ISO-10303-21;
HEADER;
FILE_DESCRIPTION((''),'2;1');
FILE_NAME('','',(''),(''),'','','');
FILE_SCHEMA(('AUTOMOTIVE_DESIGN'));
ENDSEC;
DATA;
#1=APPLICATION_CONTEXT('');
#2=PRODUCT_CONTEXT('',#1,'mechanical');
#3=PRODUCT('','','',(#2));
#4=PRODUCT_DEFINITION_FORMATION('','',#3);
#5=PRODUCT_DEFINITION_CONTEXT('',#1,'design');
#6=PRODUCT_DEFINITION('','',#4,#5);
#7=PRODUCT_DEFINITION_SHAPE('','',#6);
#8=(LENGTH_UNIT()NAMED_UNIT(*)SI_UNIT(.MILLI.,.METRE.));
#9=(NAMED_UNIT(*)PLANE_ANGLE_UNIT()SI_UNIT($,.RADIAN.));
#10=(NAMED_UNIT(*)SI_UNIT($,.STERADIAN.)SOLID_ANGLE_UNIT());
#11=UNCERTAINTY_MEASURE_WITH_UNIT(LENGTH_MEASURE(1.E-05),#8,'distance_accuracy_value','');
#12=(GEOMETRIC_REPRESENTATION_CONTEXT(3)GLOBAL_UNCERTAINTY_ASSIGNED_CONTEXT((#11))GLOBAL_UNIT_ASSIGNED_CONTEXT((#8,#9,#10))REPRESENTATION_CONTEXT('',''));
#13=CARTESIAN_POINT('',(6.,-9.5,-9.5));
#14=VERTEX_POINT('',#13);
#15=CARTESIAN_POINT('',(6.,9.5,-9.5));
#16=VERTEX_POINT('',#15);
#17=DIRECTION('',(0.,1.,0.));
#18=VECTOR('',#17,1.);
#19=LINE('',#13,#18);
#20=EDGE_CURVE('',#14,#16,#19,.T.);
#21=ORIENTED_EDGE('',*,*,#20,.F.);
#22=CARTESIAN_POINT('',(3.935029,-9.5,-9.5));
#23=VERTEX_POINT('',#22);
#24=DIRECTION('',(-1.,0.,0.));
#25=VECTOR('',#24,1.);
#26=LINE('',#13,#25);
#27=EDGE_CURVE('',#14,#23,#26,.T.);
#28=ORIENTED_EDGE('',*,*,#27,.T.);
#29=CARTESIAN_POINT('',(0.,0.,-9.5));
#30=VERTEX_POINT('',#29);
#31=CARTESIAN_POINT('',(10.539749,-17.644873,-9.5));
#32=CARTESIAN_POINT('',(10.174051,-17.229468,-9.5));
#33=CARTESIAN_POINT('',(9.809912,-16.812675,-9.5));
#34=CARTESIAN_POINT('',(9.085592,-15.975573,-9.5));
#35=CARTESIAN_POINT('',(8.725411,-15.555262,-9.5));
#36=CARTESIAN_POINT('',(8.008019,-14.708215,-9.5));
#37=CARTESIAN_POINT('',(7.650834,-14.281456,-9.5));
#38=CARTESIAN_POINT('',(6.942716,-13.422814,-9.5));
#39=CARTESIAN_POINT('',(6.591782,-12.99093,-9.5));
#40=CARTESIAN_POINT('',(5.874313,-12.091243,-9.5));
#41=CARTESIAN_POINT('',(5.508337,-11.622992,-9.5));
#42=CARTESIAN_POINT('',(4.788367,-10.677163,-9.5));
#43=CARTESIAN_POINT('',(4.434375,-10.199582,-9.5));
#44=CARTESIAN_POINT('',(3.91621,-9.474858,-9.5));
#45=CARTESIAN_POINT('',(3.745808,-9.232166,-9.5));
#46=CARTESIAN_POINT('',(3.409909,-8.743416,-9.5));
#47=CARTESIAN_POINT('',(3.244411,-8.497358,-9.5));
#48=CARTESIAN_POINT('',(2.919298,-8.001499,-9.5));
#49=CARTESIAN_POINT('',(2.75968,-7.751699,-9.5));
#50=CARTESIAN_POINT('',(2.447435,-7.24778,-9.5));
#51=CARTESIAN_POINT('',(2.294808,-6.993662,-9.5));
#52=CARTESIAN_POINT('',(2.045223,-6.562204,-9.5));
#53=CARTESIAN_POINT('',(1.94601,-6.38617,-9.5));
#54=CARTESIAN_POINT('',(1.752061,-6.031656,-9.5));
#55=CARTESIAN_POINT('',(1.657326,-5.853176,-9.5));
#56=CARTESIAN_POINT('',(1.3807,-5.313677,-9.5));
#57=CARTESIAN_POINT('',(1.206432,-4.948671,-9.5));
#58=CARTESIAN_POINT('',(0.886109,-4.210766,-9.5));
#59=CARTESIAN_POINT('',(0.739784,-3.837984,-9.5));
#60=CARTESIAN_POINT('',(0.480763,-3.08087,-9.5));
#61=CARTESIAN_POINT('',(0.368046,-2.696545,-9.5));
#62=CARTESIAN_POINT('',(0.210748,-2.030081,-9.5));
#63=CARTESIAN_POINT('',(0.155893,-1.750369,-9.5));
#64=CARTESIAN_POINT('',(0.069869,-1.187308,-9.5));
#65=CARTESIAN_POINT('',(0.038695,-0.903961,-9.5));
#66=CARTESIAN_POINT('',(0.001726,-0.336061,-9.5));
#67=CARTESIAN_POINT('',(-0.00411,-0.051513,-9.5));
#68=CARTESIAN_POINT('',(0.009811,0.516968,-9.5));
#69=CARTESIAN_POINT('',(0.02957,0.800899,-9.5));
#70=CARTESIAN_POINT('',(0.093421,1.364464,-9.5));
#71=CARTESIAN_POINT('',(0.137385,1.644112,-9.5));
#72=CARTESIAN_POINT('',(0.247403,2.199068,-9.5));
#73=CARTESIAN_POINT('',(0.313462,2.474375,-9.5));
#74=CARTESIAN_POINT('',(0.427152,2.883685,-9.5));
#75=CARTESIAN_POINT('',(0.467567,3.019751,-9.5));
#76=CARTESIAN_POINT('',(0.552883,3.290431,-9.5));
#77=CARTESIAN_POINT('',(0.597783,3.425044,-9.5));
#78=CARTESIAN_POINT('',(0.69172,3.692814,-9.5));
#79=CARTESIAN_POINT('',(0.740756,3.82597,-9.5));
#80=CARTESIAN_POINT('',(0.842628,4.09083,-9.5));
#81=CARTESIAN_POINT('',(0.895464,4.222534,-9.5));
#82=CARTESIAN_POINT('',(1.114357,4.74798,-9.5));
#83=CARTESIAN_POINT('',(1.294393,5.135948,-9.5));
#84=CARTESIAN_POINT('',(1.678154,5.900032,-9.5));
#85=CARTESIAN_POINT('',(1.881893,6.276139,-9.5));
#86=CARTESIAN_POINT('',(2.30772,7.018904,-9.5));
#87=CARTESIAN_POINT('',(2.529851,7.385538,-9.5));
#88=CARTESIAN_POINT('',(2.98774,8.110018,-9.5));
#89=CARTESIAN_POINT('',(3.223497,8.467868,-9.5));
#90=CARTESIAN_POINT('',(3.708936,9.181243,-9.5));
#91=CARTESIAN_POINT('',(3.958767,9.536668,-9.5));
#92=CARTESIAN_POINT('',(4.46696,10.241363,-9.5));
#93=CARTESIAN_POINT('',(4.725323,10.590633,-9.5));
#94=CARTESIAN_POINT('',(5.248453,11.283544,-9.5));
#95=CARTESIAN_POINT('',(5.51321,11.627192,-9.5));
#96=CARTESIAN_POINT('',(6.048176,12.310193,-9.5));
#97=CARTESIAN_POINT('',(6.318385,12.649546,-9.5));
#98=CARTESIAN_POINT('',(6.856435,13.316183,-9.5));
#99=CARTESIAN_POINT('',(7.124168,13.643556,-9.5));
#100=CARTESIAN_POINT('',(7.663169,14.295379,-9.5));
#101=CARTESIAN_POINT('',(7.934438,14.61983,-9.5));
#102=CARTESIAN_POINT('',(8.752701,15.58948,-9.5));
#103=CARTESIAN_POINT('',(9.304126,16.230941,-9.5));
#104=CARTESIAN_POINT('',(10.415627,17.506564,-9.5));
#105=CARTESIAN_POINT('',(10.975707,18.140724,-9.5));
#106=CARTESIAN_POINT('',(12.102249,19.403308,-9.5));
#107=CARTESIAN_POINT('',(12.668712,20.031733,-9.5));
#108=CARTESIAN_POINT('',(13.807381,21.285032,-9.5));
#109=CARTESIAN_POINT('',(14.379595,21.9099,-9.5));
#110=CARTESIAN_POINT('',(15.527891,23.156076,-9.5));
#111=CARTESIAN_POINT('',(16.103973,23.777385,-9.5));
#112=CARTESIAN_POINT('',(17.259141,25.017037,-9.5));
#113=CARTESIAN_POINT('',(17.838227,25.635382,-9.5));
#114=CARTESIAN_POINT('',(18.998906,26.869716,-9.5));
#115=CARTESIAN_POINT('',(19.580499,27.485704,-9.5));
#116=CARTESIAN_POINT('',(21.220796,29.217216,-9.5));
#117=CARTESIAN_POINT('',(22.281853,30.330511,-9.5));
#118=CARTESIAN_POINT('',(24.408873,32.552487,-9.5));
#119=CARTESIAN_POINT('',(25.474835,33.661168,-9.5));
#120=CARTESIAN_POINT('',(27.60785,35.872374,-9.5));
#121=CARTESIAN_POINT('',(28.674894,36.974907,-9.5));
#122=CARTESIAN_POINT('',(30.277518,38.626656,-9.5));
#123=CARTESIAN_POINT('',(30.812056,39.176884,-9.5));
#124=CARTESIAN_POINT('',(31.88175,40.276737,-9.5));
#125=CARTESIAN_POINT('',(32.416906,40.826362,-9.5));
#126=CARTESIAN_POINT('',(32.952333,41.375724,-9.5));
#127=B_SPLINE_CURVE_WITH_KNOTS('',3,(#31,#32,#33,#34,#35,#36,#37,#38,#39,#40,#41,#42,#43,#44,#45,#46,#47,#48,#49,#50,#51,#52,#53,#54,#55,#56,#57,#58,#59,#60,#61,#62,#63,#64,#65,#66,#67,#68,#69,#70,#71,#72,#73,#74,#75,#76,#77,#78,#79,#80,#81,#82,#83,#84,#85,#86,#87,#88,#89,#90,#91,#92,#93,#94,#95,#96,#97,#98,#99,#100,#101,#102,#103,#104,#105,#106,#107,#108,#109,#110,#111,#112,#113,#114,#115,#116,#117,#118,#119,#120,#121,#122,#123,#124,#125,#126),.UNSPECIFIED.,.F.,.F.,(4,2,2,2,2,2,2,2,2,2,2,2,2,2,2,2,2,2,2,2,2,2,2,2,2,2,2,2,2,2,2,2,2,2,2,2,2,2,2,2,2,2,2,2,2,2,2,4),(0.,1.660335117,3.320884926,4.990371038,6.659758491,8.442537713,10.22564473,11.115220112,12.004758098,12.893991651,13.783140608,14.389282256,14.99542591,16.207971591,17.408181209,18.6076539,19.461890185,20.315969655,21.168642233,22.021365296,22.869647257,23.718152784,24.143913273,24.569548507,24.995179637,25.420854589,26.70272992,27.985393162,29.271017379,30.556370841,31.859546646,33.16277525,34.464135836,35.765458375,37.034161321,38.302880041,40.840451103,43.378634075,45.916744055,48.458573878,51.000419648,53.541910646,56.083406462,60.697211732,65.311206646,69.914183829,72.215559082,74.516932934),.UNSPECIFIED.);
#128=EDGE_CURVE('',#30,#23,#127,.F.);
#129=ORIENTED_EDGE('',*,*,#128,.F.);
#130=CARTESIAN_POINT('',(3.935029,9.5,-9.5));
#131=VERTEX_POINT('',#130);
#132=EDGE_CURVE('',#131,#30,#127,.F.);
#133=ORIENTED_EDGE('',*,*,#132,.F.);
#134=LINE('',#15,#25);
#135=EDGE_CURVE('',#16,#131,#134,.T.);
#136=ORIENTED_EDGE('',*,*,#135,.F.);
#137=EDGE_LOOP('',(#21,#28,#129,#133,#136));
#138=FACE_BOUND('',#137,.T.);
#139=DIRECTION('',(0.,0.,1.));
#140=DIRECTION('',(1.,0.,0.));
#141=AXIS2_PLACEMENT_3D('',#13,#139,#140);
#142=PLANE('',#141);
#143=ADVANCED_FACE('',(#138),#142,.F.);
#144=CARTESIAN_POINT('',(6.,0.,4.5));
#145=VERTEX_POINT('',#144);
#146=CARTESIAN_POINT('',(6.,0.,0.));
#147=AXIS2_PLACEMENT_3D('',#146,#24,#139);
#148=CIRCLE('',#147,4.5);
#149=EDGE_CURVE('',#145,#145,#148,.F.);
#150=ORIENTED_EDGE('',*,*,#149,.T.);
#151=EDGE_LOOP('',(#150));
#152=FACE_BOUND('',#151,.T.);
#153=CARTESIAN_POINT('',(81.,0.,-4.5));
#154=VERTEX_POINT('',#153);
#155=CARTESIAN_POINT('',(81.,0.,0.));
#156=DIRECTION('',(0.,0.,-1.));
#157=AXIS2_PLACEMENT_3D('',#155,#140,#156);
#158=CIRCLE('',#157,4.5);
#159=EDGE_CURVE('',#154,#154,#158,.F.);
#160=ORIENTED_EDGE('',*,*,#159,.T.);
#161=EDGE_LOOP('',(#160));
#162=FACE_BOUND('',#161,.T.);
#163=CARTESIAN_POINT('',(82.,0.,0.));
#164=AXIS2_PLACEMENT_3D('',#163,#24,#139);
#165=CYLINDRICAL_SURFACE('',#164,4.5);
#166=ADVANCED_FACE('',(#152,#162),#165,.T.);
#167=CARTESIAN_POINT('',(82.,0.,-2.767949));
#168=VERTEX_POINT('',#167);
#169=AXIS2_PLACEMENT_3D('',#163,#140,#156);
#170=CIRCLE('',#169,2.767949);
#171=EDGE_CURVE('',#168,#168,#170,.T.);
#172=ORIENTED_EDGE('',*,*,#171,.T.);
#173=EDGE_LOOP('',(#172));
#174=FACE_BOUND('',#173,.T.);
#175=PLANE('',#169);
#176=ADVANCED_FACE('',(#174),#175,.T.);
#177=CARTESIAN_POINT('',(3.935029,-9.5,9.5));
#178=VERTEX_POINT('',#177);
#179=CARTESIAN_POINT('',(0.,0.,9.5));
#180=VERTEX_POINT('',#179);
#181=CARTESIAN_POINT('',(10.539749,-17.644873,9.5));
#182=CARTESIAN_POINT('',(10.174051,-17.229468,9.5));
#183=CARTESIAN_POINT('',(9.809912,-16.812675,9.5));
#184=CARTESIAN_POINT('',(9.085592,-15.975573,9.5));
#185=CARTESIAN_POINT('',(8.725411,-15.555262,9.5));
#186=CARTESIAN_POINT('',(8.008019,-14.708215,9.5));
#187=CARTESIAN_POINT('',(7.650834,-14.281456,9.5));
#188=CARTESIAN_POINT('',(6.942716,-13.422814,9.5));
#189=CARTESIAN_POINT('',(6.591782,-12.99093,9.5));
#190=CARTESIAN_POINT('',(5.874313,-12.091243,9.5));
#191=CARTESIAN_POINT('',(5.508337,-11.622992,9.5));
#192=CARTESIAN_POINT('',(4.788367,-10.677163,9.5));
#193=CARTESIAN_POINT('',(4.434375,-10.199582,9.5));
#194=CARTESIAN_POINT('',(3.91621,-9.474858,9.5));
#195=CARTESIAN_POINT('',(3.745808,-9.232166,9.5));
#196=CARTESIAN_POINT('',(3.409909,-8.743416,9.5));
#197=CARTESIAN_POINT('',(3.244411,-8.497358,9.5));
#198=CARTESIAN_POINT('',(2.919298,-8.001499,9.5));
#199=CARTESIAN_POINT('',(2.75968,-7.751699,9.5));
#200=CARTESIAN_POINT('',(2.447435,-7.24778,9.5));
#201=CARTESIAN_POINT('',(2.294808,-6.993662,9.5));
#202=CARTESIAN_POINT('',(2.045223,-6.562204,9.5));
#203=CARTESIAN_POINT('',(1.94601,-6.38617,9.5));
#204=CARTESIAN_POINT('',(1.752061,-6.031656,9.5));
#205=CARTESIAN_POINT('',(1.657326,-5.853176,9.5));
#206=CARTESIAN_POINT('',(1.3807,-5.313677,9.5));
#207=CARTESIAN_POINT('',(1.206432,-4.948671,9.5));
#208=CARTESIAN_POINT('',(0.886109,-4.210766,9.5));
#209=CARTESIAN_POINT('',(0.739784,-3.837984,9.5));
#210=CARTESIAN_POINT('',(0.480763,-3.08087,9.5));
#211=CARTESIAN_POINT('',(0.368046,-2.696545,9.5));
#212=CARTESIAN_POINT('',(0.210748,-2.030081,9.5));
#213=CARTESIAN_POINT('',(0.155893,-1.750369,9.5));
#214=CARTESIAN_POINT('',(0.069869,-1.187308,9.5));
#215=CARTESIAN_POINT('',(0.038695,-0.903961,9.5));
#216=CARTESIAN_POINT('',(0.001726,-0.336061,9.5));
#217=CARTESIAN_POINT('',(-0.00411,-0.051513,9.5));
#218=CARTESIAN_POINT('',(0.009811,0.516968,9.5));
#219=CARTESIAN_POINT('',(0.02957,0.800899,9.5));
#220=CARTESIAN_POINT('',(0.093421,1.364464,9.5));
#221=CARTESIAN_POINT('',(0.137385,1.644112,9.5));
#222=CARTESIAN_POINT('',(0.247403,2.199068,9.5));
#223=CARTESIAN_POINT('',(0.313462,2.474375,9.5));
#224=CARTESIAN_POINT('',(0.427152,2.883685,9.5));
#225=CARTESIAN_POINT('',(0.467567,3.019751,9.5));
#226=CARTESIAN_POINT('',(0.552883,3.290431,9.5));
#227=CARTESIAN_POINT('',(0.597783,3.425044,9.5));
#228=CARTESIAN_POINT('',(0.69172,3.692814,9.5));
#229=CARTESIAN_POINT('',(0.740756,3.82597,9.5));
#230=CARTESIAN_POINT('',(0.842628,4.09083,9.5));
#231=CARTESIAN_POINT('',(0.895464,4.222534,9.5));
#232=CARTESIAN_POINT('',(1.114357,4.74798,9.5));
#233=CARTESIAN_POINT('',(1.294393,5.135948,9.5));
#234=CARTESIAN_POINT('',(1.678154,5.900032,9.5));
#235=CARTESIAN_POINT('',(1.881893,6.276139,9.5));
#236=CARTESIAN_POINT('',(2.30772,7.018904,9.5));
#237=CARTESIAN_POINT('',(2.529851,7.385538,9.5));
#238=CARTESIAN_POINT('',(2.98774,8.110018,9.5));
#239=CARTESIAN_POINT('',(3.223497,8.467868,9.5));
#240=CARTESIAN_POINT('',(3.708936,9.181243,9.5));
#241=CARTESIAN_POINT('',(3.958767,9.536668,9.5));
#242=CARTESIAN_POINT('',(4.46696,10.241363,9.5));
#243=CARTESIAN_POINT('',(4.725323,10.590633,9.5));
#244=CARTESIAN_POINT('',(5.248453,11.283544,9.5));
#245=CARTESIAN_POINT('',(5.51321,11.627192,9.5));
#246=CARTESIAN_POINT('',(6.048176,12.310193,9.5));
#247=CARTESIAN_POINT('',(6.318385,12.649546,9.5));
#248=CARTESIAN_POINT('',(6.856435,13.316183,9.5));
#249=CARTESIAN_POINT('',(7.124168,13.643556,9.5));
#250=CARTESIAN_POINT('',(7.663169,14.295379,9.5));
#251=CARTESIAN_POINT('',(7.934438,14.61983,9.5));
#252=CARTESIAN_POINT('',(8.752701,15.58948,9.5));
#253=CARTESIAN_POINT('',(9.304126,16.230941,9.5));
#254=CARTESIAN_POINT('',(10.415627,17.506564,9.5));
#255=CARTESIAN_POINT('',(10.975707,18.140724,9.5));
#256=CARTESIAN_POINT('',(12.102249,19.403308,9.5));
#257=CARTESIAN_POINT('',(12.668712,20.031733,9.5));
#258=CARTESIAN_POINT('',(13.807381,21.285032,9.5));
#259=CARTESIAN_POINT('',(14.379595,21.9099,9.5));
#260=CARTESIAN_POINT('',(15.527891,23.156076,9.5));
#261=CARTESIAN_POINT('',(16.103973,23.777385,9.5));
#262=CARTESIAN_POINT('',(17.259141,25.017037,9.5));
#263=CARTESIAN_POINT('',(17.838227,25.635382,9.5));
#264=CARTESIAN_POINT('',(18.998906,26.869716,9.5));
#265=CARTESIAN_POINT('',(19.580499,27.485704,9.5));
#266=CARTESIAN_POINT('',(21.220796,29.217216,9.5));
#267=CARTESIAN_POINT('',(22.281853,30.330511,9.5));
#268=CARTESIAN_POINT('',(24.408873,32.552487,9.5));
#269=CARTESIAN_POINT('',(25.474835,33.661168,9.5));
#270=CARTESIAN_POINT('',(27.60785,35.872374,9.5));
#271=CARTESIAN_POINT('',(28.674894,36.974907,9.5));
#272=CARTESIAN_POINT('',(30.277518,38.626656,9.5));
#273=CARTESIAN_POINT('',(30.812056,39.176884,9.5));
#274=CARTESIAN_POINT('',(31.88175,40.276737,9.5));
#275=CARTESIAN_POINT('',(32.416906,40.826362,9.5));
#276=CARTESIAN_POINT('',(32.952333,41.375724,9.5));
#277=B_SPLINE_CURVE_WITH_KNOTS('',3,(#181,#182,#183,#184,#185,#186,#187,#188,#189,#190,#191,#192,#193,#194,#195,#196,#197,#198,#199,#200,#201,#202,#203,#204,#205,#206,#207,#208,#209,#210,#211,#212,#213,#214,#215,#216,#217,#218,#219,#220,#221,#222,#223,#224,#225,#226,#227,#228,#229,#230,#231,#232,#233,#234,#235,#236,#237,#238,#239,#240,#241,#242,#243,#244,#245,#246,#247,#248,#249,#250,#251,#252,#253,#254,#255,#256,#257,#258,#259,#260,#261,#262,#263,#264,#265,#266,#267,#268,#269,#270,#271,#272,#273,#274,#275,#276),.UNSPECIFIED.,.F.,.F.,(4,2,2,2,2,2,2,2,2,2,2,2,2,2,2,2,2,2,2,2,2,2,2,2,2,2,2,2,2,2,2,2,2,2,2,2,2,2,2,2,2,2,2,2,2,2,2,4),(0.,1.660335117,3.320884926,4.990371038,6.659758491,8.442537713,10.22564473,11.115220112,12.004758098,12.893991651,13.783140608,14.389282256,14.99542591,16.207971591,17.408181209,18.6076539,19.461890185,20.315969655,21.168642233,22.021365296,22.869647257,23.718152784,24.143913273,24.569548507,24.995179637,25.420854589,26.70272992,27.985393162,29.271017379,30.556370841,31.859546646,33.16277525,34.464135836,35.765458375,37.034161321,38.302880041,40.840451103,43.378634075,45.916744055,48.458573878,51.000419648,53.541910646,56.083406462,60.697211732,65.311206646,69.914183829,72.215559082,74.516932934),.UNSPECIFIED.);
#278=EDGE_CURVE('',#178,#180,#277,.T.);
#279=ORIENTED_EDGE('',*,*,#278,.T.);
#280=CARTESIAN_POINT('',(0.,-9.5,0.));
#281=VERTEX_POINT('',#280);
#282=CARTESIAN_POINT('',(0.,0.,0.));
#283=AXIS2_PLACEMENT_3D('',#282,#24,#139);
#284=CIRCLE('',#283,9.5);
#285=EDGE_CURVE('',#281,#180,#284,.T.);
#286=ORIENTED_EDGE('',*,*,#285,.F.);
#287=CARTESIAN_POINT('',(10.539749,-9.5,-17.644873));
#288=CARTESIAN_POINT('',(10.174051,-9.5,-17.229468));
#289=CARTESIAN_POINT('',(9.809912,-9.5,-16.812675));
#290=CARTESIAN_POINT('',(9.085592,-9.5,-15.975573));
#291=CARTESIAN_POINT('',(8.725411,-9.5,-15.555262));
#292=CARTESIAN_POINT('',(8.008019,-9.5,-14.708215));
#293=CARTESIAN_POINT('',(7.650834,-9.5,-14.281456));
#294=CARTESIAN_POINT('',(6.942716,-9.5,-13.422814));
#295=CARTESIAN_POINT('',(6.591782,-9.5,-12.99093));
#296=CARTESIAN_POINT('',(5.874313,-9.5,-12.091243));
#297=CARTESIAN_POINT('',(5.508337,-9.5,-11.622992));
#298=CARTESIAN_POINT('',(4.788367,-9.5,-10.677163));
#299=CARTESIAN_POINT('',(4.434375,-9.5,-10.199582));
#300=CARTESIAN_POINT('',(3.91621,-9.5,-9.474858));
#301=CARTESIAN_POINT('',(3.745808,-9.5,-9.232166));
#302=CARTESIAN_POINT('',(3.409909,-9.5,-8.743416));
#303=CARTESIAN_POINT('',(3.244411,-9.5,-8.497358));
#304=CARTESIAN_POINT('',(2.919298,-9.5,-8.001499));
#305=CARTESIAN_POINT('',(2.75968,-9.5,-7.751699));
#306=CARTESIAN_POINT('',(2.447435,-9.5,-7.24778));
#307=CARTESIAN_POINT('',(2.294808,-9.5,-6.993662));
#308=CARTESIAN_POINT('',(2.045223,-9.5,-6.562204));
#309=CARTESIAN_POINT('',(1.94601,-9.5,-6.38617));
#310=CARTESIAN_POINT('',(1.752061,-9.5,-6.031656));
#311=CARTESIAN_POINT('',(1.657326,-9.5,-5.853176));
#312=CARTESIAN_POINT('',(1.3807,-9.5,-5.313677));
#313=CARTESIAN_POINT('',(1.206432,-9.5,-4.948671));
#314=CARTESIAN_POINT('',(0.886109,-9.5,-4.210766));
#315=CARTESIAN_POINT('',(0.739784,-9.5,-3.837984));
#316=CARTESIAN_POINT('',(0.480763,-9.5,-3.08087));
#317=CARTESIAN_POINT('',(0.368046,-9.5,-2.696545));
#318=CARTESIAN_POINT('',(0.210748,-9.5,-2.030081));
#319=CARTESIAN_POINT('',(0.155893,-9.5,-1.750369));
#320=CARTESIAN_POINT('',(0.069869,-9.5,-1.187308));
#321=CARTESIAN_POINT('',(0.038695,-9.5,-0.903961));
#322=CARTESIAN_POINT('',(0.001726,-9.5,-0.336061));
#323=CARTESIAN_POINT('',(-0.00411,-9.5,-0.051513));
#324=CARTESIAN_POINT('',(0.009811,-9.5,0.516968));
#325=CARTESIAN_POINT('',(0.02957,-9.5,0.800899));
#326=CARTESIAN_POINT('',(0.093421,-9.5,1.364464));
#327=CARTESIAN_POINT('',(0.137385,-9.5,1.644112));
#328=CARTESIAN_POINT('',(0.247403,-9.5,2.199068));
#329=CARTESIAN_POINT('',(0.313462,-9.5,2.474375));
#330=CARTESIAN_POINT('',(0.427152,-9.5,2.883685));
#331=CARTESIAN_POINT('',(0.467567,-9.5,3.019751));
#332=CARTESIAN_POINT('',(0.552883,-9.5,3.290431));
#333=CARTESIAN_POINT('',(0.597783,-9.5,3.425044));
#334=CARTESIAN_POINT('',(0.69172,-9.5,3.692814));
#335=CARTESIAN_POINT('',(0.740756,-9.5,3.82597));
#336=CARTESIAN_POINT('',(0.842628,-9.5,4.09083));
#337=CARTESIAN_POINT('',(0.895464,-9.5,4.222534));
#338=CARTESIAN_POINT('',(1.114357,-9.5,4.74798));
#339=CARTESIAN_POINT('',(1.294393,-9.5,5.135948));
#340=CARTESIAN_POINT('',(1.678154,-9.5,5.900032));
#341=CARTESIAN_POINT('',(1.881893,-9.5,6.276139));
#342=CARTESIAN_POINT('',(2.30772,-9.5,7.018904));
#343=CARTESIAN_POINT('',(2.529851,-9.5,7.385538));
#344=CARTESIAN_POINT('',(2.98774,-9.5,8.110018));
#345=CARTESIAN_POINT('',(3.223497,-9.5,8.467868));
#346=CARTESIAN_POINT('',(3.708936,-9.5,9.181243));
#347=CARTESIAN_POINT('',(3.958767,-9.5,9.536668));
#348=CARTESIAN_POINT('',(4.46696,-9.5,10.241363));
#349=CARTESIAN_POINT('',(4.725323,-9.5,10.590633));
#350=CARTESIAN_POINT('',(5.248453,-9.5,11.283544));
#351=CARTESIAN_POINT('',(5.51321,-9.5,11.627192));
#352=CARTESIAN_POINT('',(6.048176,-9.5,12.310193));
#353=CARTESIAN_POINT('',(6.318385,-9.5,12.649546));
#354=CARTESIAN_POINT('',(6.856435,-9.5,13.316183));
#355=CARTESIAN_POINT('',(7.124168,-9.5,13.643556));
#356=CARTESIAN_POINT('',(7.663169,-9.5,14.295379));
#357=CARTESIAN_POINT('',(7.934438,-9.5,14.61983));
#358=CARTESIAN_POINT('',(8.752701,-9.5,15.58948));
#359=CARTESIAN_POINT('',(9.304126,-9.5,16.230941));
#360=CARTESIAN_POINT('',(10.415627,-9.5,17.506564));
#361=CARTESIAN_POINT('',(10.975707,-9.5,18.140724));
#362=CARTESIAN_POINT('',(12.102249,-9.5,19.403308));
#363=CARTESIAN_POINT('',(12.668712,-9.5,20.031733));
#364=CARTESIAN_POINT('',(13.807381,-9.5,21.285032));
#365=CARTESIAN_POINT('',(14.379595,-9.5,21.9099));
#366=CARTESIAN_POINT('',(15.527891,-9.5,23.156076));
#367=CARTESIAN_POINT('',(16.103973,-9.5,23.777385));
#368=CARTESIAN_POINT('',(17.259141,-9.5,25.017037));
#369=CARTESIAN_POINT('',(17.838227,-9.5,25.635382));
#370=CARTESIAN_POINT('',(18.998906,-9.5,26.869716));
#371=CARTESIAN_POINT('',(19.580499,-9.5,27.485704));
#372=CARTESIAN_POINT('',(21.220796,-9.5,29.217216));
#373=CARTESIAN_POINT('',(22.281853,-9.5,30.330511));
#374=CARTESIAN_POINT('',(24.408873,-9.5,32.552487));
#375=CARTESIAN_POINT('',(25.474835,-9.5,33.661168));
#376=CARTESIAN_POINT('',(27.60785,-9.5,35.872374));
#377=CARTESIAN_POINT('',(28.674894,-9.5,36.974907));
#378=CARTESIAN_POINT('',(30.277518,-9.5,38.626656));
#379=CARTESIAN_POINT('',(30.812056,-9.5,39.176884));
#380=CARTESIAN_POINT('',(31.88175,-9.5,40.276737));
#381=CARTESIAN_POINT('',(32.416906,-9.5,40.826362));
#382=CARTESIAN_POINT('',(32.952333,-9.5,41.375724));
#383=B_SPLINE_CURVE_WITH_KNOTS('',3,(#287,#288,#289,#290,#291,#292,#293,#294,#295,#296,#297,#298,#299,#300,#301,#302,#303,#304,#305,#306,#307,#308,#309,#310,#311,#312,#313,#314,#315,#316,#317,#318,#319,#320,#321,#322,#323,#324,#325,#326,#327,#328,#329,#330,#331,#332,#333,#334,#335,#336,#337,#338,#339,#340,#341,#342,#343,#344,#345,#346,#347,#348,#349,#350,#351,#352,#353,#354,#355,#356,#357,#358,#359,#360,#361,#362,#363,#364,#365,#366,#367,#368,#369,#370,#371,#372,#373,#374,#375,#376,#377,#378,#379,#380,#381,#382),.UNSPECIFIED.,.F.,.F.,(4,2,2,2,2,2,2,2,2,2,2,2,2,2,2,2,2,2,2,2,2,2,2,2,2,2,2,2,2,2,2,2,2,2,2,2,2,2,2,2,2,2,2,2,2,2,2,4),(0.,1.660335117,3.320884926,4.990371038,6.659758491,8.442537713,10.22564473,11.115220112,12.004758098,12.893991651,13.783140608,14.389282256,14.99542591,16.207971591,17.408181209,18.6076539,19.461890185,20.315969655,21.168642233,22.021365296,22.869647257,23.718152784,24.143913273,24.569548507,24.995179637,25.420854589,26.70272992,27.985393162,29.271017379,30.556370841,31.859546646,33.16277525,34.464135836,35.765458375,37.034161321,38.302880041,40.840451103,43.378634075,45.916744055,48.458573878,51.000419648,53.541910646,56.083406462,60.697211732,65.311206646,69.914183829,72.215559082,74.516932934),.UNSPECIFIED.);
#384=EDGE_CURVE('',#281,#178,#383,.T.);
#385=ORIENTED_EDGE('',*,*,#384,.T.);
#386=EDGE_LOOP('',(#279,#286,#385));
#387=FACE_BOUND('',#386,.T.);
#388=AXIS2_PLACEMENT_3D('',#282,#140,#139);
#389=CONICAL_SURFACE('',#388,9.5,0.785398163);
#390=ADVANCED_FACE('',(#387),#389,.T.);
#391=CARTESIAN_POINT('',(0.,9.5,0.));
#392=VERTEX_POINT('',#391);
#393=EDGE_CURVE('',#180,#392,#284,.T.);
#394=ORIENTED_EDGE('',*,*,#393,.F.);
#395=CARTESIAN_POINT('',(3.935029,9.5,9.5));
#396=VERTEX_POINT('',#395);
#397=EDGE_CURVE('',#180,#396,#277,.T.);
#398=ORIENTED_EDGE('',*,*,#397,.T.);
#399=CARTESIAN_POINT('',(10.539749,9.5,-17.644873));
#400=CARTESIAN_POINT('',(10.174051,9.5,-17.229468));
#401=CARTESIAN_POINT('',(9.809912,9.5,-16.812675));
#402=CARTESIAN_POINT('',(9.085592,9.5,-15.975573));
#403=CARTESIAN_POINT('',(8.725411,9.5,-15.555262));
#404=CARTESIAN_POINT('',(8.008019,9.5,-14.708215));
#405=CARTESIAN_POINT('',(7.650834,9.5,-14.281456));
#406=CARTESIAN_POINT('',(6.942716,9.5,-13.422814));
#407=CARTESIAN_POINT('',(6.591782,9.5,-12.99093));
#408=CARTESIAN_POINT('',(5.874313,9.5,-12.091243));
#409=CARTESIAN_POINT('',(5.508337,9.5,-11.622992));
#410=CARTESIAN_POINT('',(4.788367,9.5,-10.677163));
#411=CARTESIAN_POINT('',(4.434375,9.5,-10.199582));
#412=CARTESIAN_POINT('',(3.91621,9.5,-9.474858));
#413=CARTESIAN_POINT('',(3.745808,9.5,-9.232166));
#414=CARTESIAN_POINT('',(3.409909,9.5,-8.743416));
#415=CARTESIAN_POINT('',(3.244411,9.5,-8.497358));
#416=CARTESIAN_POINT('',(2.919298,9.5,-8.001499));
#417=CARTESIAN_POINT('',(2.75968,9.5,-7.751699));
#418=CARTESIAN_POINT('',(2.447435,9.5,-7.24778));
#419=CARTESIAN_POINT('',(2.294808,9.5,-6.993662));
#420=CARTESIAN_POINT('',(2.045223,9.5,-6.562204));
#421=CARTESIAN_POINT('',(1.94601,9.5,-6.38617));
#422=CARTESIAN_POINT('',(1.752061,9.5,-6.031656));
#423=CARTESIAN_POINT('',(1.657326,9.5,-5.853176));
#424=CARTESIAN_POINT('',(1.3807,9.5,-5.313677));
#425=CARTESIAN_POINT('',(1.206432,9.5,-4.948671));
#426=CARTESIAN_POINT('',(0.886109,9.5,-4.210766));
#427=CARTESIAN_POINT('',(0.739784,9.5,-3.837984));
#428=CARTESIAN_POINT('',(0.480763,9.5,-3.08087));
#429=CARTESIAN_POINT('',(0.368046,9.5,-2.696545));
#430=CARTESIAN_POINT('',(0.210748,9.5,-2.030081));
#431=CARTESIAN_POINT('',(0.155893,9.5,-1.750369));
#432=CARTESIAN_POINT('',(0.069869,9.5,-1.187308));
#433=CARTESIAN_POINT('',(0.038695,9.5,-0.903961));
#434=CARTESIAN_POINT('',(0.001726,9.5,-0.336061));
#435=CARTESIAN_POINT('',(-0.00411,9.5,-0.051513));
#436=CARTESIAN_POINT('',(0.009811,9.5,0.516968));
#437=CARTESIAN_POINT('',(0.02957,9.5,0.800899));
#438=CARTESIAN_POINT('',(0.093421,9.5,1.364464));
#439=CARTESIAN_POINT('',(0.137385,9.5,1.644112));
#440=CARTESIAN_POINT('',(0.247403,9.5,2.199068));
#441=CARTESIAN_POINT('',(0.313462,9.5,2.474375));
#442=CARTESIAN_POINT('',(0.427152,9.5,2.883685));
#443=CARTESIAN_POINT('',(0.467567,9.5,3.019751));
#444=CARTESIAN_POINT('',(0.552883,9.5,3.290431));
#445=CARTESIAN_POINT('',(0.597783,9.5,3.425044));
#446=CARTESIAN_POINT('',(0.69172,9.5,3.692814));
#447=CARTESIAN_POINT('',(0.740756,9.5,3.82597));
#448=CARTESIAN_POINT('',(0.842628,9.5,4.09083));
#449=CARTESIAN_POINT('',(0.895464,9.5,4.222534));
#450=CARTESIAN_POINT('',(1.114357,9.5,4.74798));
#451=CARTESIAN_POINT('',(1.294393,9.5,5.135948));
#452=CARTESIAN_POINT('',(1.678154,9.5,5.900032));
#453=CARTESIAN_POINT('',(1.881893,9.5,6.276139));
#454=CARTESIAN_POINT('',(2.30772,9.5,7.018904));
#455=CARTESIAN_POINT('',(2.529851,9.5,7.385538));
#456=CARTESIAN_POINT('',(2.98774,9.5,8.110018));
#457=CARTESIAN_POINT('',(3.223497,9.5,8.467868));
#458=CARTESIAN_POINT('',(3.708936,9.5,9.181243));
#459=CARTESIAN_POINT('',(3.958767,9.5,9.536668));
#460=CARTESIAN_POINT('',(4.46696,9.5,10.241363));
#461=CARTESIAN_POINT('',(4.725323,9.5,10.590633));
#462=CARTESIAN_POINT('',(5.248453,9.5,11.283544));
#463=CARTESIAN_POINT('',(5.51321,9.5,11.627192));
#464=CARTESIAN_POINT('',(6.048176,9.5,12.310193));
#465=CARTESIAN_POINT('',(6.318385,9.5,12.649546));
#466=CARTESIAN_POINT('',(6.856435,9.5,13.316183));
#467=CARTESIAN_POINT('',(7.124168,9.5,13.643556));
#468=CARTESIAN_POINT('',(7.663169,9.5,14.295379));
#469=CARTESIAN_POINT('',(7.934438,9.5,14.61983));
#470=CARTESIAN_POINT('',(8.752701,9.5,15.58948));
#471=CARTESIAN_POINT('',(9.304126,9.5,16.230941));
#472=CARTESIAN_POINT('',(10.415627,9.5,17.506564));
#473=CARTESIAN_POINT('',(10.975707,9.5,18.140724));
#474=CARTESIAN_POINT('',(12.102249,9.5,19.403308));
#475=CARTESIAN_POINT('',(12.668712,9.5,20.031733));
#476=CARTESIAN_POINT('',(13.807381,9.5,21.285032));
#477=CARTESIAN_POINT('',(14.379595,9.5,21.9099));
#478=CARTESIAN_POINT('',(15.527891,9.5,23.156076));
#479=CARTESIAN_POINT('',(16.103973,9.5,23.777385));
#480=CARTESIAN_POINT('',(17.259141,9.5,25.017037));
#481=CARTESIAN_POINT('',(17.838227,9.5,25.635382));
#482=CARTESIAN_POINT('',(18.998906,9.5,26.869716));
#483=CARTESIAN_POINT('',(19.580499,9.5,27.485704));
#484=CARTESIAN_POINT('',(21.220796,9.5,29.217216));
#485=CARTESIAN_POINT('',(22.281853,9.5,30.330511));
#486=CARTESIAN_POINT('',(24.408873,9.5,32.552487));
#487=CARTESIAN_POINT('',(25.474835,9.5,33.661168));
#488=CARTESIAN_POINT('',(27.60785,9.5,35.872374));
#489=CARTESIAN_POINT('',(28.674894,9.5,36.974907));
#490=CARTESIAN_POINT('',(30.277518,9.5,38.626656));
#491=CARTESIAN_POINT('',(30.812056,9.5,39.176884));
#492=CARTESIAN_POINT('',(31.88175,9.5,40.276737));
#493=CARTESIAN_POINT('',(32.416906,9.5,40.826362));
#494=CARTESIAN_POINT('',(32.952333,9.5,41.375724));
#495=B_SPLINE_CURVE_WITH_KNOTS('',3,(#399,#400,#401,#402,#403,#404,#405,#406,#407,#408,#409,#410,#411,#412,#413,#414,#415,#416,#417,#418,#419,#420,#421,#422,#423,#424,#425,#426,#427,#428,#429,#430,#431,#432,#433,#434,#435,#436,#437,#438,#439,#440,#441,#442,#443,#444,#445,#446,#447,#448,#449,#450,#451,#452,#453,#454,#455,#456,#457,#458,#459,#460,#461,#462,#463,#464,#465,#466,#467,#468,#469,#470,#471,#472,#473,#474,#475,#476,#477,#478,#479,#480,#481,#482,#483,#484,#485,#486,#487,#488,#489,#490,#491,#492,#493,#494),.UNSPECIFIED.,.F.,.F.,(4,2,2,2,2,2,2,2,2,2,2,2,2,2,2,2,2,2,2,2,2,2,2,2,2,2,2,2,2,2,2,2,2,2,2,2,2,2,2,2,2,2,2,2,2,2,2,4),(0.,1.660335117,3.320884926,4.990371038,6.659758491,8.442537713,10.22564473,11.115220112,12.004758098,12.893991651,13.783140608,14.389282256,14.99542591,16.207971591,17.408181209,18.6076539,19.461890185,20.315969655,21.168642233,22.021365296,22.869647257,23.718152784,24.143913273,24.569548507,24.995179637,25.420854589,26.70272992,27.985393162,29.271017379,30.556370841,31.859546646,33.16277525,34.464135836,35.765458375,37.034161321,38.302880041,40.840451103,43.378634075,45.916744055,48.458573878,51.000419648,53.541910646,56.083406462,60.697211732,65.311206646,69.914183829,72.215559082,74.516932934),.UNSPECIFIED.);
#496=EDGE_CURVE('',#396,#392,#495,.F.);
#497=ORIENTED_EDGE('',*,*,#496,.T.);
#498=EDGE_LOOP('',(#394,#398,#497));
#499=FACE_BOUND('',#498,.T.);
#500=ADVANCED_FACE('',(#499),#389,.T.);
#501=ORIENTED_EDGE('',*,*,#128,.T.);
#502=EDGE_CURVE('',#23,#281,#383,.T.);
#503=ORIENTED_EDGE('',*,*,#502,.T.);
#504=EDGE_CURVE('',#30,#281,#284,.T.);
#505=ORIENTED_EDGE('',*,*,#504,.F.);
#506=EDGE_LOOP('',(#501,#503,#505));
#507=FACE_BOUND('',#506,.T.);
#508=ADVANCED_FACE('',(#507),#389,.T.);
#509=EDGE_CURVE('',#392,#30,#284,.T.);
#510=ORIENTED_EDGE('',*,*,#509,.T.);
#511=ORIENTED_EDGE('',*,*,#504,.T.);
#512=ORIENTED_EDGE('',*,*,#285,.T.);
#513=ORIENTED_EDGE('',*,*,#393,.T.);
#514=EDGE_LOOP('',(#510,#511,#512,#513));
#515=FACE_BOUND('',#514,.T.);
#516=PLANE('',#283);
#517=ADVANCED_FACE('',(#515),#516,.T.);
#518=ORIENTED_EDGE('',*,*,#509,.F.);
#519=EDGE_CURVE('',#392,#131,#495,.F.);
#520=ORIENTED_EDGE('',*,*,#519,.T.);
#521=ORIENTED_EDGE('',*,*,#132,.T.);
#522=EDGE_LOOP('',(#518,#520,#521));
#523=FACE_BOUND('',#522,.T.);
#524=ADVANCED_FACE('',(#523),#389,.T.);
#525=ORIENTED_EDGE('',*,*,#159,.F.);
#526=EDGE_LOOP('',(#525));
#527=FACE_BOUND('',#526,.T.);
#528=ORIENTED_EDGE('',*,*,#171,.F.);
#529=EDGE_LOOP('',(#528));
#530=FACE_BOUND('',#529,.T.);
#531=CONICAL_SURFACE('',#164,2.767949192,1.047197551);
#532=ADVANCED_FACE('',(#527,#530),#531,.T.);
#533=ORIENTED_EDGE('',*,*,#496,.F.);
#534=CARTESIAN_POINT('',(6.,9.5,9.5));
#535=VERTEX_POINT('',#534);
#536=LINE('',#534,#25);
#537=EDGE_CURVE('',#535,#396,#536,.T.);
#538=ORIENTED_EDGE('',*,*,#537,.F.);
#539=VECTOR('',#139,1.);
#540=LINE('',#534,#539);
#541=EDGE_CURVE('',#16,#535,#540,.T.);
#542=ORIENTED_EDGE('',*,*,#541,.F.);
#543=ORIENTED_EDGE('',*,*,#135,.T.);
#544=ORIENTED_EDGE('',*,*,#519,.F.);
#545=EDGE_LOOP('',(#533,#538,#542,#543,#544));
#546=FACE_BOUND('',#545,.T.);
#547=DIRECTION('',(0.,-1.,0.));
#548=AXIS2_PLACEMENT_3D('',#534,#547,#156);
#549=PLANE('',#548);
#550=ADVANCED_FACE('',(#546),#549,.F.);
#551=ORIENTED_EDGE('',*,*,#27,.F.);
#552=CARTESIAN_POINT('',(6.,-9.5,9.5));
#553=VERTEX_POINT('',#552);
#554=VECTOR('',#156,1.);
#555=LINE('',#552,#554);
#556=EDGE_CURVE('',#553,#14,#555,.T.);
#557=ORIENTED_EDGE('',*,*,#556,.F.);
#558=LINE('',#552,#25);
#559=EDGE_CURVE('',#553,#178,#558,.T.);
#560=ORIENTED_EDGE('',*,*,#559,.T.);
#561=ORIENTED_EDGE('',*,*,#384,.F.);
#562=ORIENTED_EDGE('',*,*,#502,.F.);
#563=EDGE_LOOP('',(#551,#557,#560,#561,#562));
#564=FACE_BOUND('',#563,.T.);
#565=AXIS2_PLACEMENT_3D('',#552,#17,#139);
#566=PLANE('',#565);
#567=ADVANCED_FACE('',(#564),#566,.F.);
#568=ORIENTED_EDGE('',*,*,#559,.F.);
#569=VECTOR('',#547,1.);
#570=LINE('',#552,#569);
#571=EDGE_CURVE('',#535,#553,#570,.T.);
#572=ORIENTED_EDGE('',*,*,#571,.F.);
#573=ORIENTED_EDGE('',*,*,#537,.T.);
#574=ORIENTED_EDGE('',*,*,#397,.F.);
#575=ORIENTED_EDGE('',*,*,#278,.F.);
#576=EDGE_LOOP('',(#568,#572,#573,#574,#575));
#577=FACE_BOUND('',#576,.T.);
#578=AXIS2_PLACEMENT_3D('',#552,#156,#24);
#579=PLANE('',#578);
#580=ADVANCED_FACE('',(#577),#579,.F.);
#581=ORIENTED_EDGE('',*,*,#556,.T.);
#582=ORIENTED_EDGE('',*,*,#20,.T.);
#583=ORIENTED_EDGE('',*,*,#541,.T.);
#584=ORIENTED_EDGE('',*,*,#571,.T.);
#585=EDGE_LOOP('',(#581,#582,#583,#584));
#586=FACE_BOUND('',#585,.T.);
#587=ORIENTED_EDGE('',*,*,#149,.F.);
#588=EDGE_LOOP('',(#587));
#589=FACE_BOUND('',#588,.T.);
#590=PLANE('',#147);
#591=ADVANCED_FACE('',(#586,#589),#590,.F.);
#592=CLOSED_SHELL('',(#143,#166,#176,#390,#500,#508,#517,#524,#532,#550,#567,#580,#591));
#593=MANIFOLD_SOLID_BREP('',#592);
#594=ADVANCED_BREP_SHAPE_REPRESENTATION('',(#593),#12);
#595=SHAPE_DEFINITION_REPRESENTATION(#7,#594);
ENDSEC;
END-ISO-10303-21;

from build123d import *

# Parameters (mm, degrees)
SKETCH1_W           = 19
SKETCH1_H           = 19
BOSS_EXTRUDE1_DEPTH = 6
SKETCH2_R           = 4.5
BOSS_EXTRUDE2_DEPTH = 76
CHAMFER1_SIZE       = 1
CHAMFER1_SIZE2      = 1.732050808
SKETCH3_OUTSIDE_W   = 58.258
SKETCH3_OUTSIDE_H   = 58.258
SKETCH3_OUTSIDE_R   = 9.5
CUT_EXTRUDE1_DEPTH  = 10
CUT_EXTRUDE1_DRAFT  = -45


with BuildPart() as part:
    # Sketch1 → Boss-Extrude1 (new body)
    with BuildSketch(Plane(origin=(0, 0, 0), x_dir=(0, 0, -1), z_dir=(1, 0, 0))):
        Rectangle(SKETCH1_W, SKETCH1_H)
    extrude(amount=BOSS_EXTRUDE1_DEPTH)

    # Sketch2 → Boss-Extrude2 (add)
    with BuildSketch(Plane(origin=(6, 0, 0), x_dir=(0, 0, -1), z_dir=(1, 0, 0))):
        with Locations(Location((0, 0, 0), (0, 0, 180))):  # turned: the seam where the file's is
            Circle(SKETCH2_R)
    extrude(amount=BOSS_EXTRUDE2_DEPTH)

    # Chamfer1
    chamfer1_edges = [part.edges().sort_by_distance(p)[0] for p in [
        (82, 0, -4.5),
    ]]
    chamfer1_side = [part.faces().sort_by_distance(p)[0] for p in [
        (44, 0, -4.5),
    ]]
    chamfer(chamfer1_edges, length=CHAMFER1_SIZE, length2=CHAMFER1_SIZE2, reference=chamfer1_side[0])


with BuildPart() as cut_extrude1_tool:
    # Sketch3 outside → Cut-Extrude1 (with draft: the straight prism first)
    with BuildSketch(Plane.ZY):
        Rectangle(SKETCH3_OUTSIDE_W, SKETCH3_OUTSIDE_H)
        Circle(SKETCH3_OUTSIDE_R, mode=Mode.SUBTRACT)
    extrude(amount=-CUT_EXTRUDE1_DEPTH)
    # Cut-Extrude1: the draft: its side faces are tilted about the plane it starts from
    cut_extrude1_sides = [cut_extrude1_tool.faces().sort_by_distance(p)[0] for p in [
        (5, -29.129, 0),
        (5, 0, 29.129),
        (5, 29.129, 0),
        (5, 0, -29.129),
        (5, 0, -9.5),
    ]]
    draft(cut_extrude1_sides, Plane.ZY, CUT_EXTRUDE1_DRAFT)


with BuildPart() as part_1:
    add(part.part)

    # Cut-Extrude1: cut by cut_extrude1_tool
    add(cut_extrude1_tool.part, mode=Mode.SUBTRACT)


solid = part_1.part
